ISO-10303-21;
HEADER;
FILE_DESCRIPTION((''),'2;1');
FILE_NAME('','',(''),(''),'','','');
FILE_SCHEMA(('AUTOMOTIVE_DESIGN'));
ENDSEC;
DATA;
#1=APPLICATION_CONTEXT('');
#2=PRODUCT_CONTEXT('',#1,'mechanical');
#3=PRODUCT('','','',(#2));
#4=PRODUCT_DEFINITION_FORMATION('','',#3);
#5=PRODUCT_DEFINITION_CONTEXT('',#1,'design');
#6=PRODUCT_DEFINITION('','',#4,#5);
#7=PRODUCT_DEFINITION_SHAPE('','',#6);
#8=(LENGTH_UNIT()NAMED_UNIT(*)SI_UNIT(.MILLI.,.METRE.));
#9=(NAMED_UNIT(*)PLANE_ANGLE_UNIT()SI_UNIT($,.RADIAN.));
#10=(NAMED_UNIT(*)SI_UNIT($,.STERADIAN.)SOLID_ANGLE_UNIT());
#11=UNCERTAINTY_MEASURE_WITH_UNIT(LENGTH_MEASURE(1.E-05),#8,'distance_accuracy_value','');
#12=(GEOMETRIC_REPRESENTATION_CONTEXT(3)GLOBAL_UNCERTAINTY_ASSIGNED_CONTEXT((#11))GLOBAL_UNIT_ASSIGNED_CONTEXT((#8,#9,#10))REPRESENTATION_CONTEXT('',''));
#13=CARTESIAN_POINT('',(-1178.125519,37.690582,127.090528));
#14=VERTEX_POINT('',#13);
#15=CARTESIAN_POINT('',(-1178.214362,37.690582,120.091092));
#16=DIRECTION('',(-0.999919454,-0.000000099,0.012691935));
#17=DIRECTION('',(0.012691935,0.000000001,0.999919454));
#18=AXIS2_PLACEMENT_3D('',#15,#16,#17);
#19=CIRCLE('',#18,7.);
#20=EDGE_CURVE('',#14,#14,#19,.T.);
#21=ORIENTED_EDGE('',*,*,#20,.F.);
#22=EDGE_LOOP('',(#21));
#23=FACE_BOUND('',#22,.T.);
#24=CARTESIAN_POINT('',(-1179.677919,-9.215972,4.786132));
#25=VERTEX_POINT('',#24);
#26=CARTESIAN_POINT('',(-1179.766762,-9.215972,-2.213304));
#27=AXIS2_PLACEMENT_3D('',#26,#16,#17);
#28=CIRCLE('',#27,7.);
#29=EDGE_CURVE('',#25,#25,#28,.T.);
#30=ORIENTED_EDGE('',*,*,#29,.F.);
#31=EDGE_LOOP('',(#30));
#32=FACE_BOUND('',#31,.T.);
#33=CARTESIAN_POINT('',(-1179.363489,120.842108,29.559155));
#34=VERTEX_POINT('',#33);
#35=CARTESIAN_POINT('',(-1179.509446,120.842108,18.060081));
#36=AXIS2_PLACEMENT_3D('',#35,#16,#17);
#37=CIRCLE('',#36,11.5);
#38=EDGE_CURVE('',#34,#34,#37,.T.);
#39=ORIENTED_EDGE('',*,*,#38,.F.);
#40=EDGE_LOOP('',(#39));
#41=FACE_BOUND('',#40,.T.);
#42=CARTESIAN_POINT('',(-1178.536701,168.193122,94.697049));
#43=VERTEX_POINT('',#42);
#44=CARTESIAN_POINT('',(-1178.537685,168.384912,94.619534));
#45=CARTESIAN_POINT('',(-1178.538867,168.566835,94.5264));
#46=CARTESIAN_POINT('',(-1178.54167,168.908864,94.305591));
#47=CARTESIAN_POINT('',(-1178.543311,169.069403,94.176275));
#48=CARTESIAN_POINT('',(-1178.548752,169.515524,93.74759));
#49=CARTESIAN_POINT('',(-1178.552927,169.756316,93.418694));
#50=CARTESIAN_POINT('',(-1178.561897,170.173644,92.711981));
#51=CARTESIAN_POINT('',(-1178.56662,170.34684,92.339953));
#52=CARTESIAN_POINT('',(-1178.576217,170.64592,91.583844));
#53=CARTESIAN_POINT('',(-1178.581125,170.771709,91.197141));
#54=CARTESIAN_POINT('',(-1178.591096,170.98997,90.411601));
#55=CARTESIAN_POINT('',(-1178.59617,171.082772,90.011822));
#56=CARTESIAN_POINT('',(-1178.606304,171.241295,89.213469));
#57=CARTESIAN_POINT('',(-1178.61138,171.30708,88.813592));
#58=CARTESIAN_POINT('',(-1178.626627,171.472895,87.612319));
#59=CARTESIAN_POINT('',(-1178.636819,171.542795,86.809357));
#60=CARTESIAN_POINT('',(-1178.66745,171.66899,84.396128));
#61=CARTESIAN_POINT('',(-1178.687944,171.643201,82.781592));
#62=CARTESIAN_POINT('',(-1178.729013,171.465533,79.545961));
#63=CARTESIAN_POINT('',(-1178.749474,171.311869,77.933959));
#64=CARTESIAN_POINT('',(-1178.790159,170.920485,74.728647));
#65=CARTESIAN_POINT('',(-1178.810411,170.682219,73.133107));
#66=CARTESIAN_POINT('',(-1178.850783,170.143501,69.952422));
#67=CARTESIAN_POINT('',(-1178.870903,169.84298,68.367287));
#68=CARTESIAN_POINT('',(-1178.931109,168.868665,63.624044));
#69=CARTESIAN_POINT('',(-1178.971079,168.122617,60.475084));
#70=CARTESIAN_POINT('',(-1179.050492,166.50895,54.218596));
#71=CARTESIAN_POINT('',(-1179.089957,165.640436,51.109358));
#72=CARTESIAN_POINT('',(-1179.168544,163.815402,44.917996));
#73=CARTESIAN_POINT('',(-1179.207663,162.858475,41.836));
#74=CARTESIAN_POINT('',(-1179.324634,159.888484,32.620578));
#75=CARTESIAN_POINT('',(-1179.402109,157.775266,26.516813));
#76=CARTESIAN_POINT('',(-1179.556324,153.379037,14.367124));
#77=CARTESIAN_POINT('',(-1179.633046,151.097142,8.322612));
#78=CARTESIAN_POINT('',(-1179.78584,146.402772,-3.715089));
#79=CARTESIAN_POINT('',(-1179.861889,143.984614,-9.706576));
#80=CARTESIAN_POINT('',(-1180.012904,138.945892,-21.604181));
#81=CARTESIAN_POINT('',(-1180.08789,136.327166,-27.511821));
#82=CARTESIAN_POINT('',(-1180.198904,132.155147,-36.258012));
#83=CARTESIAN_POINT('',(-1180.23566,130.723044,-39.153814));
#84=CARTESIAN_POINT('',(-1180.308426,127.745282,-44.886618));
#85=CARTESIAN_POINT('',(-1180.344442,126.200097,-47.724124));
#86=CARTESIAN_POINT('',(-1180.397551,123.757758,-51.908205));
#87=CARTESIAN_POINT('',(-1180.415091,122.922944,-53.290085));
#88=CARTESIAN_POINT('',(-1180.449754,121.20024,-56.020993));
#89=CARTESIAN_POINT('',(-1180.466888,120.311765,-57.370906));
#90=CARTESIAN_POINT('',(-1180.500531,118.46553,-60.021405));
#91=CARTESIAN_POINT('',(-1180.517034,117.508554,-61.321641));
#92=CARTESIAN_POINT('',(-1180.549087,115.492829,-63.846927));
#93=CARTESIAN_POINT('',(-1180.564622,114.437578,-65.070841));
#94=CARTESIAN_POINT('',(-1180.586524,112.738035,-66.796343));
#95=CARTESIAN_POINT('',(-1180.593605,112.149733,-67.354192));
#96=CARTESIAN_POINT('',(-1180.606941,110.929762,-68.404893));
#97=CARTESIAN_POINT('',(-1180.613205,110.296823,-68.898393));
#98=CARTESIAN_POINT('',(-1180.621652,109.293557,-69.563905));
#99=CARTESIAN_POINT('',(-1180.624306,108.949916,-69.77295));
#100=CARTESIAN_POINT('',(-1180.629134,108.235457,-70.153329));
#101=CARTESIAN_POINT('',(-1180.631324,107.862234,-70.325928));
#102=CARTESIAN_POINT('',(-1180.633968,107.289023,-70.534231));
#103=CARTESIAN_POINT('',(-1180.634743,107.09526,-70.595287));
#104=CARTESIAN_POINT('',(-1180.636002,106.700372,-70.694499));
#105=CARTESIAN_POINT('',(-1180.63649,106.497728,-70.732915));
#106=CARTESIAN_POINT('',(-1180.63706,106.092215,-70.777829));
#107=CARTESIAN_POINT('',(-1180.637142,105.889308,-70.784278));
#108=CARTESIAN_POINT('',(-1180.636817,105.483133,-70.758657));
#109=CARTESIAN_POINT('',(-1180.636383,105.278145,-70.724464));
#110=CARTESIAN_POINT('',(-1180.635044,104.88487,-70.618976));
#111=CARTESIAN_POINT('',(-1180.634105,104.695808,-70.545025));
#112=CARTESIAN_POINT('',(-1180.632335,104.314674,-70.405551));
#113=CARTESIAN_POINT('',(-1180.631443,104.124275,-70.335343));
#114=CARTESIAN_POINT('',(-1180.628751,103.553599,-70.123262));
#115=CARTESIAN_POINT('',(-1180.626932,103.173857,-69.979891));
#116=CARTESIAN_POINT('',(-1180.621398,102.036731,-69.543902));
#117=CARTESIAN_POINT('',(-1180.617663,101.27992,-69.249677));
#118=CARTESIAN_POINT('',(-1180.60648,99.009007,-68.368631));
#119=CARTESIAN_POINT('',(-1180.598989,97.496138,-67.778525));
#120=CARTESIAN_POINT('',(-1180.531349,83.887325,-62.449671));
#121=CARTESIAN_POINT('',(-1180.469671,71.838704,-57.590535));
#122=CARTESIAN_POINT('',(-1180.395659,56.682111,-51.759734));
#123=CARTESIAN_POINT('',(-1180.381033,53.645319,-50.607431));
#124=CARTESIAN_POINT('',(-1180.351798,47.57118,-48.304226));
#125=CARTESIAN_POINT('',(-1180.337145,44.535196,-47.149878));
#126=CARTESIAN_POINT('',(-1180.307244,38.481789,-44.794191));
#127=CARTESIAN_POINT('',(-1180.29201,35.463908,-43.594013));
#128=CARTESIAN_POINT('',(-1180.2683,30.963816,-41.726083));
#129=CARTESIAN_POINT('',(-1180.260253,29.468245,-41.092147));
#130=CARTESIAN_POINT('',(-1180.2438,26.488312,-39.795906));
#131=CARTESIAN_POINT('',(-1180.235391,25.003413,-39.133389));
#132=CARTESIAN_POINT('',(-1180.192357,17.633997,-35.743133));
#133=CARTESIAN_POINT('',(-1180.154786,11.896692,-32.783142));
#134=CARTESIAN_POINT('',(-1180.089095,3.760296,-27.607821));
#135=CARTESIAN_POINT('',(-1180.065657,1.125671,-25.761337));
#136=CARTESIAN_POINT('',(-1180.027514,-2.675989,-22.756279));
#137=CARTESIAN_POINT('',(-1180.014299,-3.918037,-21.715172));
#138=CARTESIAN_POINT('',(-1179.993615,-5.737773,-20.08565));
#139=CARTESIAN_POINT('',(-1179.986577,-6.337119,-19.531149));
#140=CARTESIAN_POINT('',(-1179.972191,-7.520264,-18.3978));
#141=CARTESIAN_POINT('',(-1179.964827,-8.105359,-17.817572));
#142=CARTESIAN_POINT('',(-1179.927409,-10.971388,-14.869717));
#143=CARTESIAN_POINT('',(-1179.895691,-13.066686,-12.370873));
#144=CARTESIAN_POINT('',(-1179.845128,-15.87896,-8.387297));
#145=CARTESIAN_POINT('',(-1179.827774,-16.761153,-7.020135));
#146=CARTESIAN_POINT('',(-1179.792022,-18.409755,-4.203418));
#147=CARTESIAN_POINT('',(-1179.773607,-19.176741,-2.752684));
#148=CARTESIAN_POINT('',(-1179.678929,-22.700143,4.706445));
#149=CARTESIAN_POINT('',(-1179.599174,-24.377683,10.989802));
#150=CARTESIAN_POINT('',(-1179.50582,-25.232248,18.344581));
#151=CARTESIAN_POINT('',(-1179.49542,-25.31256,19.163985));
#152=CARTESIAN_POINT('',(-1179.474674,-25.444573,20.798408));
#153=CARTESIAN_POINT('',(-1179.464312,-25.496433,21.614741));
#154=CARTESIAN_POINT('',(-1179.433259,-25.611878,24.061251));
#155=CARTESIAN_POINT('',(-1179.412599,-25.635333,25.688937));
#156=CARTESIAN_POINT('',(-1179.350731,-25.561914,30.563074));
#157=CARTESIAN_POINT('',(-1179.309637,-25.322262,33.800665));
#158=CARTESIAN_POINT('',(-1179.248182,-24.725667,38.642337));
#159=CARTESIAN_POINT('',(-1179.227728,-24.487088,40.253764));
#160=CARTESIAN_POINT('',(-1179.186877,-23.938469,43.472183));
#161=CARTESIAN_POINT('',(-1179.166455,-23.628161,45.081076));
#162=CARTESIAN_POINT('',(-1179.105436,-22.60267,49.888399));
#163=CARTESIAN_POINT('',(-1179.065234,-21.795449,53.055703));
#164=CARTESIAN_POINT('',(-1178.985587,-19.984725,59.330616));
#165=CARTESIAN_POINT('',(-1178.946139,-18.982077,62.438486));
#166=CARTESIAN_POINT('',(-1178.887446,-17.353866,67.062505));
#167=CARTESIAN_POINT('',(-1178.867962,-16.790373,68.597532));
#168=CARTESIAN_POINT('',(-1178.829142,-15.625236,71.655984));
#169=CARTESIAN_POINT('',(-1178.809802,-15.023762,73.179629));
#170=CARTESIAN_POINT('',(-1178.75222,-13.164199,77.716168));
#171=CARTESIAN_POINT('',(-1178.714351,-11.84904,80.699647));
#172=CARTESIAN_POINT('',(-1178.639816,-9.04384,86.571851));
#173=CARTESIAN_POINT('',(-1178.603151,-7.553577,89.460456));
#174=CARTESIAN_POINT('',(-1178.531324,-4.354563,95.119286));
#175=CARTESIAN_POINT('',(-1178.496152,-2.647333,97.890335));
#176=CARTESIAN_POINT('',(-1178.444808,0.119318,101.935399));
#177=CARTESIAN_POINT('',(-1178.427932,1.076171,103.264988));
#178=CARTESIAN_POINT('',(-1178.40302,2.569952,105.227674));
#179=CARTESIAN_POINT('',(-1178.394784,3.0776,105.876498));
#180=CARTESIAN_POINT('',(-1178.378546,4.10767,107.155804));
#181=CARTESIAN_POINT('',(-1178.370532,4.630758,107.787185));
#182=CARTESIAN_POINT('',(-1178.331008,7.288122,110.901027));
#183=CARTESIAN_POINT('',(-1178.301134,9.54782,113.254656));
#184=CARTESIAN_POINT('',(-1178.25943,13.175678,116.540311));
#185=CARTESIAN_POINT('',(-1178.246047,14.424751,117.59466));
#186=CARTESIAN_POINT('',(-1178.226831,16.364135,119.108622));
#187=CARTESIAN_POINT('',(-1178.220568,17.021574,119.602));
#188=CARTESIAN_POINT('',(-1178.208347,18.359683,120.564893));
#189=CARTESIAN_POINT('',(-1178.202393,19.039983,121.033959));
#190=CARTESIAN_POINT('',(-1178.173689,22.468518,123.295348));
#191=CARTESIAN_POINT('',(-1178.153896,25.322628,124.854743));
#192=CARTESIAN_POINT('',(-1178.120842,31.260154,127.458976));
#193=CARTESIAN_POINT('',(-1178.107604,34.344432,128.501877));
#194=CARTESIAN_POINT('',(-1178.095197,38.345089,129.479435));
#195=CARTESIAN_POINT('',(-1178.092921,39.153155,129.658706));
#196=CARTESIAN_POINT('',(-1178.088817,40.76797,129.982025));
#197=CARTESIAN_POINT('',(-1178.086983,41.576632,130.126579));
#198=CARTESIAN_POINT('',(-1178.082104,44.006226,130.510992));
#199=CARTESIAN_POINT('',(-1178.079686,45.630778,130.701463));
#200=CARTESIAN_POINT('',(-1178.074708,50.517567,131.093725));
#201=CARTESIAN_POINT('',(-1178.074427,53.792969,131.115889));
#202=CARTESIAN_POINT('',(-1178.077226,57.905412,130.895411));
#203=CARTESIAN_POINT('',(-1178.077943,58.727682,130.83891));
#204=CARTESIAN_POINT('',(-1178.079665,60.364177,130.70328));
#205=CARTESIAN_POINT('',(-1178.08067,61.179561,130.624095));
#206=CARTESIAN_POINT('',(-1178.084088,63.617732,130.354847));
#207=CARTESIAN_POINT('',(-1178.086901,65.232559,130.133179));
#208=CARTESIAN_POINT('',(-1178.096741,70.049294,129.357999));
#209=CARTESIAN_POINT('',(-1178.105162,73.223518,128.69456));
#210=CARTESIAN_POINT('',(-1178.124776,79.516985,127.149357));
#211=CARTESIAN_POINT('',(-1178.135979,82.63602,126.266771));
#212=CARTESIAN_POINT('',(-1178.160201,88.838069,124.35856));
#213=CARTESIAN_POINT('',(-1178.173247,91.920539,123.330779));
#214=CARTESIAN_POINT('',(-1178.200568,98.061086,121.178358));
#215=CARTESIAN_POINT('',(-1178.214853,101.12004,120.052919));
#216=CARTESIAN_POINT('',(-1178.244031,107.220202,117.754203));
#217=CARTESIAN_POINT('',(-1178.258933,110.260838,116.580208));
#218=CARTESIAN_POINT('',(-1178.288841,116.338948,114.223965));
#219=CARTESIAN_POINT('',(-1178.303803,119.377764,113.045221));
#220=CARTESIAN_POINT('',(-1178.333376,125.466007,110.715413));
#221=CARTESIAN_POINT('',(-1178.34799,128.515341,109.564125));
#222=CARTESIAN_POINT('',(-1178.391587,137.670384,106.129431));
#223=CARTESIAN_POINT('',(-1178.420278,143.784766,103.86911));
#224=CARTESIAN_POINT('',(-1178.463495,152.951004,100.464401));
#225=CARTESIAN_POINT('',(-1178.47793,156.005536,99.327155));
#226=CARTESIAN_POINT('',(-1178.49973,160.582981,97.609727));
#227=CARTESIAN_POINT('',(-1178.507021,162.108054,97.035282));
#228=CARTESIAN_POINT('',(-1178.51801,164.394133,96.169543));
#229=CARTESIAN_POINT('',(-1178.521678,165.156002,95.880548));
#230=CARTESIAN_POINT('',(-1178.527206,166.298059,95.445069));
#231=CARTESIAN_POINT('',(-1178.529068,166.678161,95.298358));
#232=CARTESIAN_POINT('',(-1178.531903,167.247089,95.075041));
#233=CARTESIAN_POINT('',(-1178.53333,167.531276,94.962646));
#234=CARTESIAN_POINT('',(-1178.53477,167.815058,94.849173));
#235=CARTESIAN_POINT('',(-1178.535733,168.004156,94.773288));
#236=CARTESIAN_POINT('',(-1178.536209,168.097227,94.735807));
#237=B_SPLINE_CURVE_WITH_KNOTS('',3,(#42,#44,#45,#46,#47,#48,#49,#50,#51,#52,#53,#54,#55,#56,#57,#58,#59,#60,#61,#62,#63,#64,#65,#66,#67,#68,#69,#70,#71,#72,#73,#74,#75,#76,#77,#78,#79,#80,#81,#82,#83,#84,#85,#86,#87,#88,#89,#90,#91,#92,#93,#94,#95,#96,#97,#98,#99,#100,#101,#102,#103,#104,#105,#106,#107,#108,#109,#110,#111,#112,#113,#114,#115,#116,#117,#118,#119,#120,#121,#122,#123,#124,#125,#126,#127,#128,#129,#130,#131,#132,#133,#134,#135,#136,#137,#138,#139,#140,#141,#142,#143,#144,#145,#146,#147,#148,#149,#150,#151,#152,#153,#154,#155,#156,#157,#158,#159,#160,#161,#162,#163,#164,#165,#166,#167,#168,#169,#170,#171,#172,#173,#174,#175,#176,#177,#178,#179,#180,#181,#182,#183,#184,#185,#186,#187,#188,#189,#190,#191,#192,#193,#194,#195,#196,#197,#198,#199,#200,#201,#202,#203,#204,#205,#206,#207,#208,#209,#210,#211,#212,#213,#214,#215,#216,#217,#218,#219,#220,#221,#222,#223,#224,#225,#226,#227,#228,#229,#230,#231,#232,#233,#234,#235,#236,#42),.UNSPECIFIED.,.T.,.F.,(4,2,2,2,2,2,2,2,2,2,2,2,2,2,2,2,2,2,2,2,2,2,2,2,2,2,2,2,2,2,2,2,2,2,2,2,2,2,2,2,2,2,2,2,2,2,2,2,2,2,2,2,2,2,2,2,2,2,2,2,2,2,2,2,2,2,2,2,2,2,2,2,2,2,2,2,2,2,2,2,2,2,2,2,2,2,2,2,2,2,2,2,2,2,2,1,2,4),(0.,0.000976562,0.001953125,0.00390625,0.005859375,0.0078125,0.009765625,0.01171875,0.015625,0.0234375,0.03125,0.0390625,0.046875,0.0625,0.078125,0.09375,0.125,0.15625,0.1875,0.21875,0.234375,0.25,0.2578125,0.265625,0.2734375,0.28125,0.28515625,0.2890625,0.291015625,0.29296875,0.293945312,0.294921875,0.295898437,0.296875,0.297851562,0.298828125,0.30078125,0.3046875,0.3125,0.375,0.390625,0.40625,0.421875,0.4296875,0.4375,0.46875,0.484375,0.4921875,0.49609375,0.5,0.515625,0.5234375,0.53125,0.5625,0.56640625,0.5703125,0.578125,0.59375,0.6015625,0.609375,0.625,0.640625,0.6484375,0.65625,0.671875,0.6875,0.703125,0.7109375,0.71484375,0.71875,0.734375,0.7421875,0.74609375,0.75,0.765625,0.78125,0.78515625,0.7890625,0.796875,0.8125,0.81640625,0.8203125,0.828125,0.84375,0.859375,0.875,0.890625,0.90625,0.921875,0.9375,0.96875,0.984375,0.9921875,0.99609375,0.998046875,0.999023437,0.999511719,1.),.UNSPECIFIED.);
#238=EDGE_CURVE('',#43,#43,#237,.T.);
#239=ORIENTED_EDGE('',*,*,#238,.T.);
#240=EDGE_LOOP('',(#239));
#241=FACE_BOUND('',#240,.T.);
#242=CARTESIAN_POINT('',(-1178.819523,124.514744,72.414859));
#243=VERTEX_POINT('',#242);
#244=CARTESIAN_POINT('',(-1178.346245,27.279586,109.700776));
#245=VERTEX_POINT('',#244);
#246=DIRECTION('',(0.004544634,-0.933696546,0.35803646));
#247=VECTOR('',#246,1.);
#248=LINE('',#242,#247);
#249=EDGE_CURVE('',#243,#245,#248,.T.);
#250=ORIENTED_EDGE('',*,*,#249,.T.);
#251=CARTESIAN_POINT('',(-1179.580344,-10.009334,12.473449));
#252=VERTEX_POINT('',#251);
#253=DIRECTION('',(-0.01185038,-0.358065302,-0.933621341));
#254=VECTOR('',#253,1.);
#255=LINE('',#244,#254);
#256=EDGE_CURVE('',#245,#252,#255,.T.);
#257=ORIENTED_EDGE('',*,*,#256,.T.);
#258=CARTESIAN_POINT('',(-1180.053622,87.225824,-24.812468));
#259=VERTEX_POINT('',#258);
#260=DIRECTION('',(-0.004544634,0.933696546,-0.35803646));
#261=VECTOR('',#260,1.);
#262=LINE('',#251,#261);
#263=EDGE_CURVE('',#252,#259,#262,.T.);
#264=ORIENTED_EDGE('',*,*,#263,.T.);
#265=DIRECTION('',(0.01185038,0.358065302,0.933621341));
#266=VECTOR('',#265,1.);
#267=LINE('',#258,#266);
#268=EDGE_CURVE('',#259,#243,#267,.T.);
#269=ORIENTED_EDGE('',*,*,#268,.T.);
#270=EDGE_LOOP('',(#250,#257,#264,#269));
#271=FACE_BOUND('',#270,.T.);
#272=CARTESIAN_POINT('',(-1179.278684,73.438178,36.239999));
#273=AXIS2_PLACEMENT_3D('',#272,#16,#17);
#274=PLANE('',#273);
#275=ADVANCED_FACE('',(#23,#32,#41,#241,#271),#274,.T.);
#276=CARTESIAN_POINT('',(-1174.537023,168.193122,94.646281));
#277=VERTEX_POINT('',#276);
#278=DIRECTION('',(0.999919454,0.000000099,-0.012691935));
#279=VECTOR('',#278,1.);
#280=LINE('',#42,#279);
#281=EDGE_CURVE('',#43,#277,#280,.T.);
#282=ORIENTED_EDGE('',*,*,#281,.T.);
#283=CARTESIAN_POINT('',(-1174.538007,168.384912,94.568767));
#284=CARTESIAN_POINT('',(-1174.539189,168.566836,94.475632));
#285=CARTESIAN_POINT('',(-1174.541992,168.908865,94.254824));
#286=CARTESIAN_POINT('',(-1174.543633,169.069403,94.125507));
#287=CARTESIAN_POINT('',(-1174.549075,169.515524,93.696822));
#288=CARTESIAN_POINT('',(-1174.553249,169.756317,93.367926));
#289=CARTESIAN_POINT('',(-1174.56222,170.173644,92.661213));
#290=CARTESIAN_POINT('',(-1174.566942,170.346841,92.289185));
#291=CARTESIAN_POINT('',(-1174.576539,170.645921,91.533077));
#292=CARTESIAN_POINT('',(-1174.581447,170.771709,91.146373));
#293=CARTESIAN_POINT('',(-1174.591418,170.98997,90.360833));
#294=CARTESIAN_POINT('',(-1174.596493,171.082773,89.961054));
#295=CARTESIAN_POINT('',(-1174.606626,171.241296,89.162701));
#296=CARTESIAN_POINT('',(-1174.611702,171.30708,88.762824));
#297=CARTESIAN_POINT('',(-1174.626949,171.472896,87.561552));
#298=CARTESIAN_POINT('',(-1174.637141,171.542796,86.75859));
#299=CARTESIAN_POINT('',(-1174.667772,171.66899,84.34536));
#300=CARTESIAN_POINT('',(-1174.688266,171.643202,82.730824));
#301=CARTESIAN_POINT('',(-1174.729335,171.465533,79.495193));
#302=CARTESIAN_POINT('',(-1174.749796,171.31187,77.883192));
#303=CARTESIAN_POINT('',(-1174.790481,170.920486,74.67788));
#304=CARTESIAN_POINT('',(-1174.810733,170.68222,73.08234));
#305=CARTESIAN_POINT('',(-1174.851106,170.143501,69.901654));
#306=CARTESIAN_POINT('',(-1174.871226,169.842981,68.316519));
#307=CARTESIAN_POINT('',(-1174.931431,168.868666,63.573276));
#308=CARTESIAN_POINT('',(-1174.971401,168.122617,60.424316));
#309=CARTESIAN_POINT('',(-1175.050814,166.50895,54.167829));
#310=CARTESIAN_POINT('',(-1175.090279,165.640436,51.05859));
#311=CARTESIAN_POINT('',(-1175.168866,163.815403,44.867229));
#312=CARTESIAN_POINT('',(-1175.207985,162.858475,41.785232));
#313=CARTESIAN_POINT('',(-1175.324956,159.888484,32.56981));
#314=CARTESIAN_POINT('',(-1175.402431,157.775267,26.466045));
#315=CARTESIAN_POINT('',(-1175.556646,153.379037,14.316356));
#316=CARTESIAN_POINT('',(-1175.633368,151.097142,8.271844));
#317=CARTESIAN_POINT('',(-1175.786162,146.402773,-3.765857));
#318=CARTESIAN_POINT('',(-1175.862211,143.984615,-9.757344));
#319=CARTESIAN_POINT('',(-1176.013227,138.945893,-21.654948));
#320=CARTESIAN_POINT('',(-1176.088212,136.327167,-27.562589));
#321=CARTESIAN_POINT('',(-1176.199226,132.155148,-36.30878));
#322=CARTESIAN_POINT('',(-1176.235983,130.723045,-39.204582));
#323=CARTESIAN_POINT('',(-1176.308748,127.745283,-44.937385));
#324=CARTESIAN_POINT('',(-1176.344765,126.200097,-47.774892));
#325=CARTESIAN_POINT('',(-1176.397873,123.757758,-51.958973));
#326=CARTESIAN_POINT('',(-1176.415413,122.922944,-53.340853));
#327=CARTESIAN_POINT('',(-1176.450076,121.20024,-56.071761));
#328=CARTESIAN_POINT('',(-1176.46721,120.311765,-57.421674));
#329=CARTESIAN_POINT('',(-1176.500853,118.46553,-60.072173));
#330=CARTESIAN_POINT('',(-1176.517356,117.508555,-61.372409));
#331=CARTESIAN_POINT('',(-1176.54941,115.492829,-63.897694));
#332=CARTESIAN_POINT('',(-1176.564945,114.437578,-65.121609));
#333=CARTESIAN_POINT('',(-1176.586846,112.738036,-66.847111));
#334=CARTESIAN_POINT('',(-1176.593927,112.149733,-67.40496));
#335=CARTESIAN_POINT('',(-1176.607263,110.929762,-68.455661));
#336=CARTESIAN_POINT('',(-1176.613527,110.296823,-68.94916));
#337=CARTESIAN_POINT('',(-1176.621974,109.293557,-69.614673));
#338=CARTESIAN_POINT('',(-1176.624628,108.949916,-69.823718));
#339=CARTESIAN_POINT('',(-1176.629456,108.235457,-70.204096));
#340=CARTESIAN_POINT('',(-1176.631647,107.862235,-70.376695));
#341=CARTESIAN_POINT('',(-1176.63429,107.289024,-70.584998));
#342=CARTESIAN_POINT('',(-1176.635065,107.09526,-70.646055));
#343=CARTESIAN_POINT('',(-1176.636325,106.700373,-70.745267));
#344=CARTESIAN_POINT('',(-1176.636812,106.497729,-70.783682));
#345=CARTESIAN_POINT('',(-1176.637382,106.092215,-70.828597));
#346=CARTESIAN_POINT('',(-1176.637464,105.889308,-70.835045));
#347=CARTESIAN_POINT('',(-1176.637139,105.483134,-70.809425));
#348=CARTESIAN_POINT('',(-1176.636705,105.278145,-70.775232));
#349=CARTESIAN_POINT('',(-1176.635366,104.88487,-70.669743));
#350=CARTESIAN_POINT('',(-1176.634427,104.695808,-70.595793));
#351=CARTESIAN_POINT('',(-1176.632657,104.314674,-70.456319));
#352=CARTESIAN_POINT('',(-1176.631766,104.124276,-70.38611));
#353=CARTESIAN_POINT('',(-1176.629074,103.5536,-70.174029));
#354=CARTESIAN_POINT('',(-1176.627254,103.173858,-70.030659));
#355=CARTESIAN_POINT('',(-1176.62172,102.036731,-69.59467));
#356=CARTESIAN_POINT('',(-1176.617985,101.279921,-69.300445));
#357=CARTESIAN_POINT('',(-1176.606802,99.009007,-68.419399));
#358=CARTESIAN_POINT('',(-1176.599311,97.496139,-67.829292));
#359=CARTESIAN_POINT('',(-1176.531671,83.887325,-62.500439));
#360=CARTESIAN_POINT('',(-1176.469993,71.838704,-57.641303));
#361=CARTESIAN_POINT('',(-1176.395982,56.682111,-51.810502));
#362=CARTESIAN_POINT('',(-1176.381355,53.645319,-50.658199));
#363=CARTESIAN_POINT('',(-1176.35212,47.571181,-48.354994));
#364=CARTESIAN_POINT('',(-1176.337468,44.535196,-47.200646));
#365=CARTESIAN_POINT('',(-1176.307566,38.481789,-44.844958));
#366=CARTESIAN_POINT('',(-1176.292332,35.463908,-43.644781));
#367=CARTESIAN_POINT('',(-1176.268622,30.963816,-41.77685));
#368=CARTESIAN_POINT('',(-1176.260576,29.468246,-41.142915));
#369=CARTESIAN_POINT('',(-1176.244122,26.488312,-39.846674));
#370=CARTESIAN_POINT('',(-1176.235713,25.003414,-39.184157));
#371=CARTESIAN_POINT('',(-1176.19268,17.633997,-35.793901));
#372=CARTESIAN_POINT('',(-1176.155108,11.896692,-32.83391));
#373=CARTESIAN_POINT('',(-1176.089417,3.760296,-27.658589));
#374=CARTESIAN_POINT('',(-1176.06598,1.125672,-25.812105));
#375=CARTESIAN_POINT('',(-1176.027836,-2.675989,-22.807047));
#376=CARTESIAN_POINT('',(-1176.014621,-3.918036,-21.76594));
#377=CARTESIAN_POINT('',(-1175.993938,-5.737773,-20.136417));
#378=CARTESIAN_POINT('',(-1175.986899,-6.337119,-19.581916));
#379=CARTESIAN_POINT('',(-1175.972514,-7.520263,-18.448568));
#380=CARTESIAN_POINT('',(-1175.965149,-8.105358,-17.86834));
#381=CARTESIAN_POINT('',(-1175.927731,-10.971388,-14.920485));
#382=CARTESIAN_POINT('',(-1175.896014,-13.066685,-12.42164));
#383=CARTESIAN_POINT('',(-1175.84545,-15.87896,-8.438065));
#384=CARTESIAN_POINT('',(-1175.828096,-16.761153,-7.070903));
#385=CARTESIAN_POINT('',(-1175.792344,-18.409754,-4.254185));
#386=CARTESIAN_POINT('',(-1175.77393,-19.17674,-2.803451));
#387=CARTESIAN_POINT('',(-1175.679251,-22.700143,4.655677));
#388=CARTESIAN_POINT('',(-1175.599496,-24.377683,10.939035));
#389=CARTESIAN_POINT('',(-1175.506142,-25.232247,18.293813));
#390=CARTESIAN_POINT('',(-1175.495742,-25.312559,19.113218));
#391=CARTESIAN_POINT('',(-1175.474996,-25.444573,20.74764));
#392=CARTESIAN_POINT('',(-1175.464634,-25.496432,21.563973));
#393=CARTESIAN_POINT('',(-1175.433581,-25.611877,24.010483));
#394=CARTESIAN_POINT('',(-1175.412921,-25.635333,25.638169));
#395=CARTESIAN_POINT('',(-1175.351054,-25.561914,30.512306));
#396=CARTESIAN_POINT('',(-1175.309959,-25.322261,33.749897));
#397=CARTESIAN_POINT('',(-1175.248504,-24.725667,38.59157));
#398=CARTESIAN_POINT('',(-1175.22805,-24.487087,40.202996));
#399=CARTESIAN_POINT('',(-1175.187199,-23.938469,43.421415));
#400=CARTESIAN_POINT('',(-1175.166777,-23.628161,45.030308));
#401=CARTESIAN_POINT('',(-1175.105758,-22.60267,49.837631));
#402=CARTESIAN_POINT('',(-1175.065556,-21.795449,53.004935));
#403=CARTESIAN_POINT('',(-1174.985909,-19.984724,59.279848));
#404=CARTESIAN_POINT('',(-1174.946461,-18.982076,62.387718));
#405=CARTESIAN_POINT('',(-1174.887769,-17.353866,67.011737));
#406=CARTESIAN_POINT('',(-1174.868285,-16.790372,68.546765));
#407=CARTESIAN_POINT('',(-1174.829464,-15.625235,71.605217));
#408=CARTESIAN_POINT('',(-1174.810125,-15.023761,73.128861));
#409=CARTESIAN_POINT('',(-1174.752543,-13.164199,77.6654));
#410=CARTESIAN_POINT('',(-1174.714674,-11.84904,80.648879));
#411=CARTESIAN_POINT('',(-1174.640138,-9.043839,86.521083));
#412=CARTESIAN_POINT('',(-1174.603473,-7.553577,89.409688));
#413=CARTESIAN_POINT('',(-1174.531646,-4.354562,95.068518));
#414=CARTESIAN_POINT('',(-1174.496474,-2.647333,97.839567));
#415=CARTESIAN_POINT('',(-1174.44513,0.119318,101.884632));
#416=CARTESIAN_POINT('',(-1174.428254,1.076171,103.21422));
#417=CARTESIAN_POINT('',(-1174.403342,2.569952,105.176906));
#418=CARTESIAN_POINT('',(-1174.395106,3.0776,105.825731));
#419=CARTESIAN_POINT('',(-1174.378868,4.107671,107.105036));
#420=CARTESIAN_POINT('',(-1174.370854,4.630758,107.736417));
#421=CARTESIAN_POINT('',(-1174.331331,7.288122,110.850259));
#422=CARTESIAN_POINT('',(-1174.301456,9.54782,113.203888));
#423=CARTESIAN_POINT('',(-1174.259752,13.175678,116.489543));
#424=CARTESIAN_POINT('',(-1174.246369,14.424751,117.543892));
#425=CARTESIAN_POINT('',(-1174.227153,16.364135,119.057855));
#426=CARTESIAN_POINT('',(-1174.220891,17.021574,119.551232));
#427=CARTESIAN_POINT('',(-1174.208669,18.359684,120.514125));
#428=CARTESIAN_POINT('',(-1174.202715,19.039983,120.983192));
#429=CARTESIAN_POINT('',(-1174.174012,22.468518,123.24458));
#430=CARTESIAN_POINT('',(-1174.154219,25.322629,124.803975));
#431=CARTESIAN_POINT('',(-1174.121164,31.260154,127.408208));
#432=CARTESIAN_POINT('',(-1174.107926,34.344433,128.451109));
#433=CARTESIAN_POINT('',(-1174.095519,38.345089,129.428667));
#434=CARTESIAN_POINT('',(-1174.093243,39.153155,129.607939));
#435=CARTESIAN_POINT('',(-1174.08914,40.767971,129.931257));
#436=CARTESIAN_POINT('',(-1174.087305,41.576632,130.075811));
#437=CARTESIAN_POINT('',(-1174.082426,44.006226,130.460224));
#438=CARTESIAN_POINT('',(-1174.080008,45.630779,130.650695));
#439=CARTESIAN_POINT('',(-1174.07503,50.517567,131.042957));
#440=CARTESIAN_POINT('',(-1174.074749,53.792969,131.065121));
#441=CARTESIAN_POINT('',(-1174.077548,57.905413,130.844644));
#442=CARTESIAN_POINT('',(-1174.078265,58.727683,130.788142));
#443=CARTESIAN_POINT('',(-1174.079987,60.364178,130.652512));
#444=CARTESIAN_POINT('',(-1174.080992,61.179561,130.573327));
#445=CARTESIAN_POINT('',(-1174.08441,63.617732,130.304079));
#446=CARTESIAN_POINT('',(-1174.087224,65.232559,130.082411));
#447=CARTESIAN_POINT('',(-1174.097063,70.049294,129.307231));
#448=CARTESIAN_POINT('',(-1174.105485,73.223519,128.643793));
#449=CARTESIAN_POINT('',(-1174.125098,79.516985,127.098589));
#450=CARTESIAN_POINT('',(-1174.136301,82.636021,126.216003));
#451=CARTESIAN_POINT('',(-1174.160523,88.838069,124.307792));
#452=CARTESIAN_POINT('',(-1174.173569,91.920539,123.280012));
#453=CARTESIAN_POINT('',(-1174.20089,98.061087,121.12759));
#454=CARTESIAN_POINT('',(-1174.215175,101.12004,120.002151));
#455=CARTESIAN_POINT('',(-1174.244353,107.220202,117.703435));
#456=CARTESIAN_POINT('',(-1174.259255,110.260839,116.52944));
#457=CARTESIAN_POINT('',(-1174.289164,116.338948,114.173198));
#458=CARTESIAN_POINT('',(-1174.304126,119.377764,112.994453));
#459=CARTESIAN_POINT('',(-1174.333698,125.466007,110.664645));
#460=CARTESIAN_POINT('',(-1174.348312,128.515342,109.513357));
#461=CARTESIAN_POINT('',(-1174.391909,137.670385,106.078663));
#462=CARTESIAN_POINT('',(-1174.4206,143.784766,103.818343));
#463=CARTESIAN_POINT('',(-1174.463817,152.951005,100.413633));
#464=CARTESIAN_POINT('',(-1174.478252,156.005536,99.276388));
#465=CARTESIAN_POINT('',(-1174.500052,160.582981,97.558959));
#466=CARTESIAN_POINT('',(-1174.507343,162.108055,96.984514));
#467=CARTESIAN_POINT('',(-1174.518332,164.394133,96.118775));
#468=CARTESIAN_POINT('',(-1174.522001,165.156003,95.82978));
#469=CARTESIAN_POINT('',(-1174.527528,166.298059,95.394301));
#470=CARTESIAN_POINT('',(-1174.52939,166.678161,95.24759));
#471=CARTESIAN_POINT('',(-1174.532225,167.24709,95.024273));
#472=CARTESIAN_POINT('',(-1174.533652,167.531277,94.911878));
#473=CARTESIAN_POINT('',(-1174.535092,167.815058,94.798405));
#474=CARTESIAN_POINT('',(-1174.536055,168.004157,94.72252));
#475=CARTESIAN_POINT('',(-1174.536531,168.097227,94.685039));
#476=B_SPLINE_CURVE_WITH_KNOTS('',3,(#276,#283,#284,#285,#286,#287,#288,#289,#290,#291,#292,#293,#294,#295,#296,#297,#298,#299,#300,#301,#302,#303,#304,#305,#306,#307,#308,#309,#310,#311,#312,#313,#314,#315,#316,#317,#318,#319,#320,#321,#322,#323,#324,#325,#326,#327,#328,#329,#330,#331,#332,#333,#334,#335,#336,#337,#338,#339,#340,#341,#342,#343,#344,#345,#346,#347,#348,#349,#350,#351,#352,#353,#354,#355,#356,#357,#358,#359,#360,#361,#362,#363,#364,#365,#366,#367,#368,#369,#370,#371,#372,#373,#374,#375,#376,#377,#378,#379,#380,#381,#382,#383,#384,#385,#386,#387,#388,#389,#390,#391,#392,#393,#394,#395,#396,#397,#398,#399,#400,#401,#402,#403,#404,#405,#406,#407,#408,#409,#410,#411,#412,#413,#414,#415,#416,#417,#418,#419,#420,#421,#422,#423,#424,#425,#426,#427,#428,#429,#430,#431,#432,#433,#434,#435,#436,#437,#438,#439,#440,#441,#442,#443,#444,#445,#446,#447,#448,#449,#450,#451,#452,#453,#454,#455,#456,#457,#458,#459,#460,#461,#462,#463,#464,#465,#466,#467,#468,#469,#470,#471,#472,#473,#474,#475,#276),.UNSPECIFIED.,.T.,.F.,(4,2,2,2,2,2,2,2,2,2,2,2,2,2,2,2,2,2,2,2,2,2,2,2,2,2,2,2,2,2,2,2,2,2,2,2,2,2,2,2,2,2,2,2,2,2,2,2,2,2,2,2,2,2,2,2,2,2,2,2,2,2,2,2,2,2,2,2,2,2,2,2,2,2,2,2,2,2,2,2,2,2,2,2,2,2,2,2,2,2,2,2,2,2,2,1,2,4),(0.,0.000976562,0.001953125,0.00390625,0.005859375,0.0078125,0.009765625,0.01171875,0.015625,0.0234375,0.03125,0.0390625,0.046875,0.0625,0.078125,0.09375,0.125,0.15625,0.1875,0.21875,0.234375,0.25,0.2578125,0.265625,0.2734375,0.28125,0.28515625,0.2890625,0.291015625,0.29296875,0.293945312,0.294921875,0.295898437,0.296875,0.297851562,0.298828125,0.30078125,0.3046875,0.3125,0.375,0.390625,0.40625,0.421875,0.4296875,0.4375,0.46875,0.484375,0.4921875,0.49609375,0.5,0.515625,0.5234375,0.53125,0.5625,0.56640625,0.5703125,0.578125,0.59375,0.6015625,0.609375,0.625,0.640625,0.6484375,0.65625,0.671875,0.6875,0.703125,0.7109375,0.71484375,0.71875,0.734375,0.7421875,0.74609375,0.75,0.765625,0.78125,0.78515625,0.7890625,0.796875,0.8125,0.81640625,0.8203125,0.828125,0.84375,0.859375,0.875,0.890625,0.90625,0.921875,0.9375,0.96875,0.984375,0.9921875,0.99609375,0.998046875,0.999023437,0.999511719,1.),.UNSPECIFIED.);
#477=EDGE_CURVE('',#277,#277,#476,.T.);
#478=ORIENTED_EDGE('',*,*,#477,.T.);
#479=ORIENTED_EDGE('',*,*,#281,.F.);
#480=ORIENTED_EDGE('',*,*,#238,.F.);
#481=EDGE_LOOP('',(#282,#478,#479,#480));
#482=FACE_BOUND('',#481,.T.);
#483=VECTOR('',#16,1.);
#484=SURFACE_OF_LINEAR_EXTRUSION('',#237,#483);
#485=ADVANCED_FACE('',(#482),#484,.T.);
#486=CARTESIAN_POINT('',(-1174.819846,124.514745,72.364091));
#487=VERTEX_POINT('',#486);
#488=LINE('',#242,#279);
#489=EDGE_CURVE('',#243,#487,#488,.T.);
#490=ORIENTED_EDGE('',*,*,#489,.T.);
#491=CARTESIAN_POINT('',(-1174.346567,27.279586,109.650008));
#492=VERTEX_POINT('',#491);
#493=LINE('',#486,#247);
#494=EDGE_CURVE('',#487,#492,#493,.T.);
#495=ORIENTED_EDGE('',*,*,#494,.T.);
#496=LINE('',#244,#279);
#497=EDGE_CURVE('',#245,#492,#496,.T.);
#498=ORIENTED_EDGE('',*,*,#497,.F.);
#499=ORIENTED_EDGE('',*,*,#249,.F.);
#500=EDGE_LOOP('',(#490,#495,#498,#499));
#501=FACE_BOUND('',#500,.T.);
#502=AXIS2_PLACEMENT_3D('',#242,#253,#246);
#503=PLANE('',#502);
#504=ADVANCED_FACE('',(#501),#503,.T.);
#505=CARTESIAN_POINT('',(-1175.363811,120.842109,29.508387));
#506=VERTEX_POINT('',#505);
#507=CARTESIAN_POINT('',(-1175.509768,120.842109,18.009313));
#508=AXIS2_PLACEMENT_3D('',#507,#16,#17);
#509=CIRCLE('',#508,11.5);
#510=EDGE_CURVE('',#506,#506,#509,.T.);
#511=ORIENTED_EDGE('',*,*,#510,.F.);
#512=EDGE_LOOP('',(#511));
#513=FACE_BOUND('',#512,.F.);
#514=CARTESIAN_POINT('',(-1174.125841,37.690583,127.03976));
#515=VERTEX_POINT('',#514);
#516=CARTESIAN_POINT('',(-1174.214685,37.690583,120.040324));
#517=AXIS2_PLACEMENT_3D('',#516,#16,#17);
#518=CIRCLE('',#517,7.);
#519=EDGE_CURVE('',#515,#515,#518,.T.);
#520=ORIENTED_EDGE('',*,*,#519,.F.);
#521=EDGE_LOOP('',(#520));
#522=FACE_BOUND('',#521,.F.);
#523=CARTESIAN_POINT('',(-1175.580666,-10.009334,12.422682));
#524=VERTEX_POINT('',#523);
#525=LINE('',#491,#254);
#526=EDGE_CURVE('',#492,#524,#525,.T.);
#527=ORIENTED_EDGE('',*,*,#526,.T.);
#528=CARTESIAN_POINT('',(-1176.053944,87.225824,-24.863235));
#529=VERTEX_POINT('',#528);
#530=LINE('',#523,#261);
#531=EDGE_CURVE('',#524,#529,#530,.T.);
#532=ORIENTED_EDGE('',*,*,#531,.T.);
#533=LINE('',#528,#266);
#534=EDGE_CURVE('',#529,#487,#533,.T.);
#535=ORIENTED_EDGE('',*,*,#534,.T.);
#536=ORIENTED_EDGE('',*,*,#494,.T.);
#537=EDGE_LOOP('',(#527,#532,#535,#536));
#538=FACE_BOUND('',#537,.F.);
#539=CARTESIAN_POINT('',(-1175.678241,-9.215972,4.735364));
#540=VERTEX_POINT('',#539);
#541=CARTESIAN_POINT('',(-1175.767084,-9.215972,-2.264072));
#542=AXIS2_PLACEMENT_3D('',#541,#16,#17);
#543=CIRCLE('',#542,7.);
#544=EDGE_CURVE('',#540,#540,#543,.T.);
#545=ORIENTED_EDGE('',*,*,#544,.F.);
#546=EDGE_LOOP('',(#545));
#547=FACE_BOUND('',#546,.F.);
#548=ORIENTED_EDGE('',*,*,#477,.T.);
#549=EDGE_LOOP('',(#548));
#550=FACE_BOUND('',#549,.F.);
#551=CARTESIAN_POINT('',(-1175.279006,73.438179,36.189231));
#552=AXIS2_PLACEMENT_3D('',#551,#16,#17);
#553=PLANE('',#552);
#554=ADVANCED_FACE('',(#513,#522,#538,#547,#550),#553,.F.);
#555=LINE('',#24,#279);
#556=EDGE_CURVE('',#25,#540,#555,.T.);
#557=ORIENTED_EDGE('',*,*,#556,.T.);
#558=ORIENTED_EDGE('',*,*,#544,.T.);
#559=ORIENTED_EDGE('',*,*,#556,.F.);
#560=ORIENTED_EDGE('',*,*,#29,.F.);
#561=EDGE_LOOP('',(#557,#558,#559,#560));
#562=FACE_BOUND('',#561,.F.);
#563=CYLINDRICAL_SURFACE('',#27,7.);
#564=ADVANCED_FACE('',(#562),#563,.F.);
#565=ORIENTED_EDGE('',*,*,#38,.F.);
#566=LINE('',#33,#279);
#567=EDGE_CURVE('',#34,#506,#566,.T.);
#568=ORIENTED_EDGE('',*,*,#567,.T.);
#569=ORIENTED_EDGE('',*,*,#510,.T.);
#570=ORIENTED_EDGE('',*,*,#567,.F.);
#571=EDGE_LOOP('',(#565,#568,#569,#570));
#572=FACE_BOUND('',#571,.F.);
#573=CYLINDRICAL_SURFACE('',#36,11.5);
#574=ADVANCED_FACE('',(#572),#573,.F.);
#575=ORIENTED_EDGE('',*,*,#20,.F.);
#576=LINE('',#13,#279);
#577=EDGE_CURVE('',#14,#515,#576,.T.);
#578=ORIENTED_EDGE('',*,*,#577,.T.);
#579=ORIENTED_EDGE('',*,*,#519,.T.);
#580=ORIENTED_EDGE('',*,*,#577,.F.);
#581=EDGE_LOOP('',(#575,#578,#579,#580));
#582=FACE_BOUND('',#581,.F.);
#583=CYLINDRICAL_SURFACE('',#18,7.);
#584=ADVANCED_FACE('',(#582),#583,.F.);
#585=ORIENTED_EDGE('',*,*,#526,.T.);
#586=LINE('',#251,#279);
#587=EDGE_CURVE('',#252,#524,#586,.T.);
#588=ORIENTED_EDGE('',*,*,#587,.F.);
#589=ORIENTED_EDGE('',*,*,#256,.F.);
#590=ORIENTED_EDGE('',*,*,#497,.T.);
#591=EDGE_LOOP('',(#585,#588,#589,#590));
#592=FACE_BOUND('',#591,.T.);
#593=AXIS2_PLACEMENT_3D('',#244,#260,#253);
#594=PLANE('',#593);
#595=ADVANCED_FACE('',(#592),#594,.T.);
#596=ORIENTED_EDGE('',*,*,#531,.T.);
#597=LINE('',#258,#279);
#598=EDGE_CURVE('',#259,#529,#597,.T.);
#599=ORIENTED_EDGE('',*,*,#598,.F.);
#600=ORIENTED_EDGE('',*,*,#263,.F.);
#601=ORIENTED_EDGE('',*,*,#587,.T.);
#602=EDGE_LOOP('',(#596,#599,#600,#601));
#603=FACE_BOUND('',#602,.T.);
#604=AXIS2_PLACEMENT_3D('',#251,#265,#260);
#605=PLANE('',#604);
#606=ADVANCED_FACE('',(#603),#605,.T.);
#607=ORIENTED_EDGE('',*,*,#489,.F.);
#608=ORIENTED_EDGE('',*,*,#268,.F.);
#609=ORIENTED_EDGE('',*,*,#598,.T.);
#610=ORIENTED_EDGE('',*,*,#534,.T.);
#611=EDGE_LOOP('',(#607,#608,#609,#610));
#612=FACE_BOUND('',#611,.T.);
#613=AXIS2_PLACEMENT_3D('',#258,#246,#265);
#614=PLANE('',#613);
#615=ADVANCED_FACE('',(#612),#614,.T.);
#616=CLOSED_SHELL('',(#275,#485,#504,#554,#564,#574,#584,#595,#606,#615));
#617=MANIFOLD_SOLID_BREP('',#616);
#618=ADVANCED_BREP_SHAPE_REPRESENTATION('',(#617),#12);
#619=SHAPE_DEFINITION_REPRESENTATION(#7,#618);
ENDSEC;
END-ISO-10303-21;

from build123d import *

# Parameters (mm, degrees)
SKETCH3_R           = 7
SKETCH3_R_2         = 11.5
BOSS_EXTRUDE1_DEPTH = 4


with BuildPart() as part:
    # Sketch3 → Boss-Extrude1 (new body)
    with BuildSketch(Plane(origin=(-1179.548631244, -0.000116963, 14.971959902), x_dir=(0.012691934504714668, 1.258519915397729e-09, 0.9999194541554475), z_dir=(-0.9999194541554426, -9.915104323779702e-08, 0.01269193450471473))):
        with BuildLine():
            add(Edge.make_bspline(
                [(79.731511359, 168.193238714), (79.653990348, 168.385028808), (79.560848033, 168.566952086), (79.340021847, 168.908981308), (79.210695298, 169.069519766), (78.781975606, 169.515640666), (78.453052752, 169.756433316), (77.746282808, 170.173760419), (77.374225273, 170.346957045), (76.618055792, 170.646037327), (76.231320865, 170.771825699), (75.445717635, 170.990086498), (75.045906717, 171.082888983), (74.247489576, 171.241412128), (73.847580027, 171.307196952), (72.646210891, 171.473011999), (71.843184122, 171.54291214), (69.429760333, 171.669106413), (67.815093888, 171.643318171), (64.579202467, 171.465649773), (62.967071145, 171.311986093), (59.761501008, 170.920602138), (58.165832493, 170.682336315), (54.984890477, 170.14361787), (53.399628362, 169.84309713), (48.656003205, 168.868782209), (45.506789421, 168.122733638), (39.249797793, 166.509066645), (36.140308585, 165.640552589), (29.948448592, 163.815519323), (26.866203634, 162.858591769), (17.650039352, 159.888600915), (11.545782566, 157.775383208), (-0.604884948, 153.379153881), (-6.649883911, 151.097259058), (-18.688554416, 146.4028894), (-24.680523881, 143.984731356), (-36.579086772, 138.946009306), (-42.48720288, 136.327283315), (-51.234098847, 132.155264206), (-54.130133676, 130.723161483), (-59.86339931, 127.745399278), (-62.701134229, 126.200213632), (-66.885552188, 123.757874778), (-68.267543958, 122.923061097), (-70.998671849, 121.200357071), (-72.348693773, 120.311881916), (-74.999405689, 118.465646948), (-76.299746495, 117.508671166), (-78.825235563, 115.49294562), (-80.049248813, 114.437694661), (-81.774889513, 112.738152296), (-82.332783613, 112.149849809), (-83.383569446, 110.929878833), (-83.877108359, 110.296939867), (-84.542674879, 109.293673656), (-84.751736662, 108.950032635), (-85.132145551, 108.235574011), (-85.304758407, 107.86235151), (-85.513078249, 107.289140179), (-85.574139308, 107.095376795), (-85.673359437, 106.700489416), (-85.711778268, 106.49784535), (-85.756696407, 106.092331571), (-85.763145275, 105.889424757), (-85.737523171, 105.483250415), (-85.703327234, 105.278262113), (-85.597830008, 104.884986791), (-85.523873758, 104.695924947), (-85.384388297, 104.314790942), (-85.314174304, 104.124392284), (-85.102076101, 103.553716505), (-84.958694223, 103.173974382), (-84.522670217, 102.036847892), (-84.22842153, 101.280037448), (-83.347304068, 99.009124064), (-82.757150372, 97.496255184), (-77.427867257, 83.887442151), (-72.568340001, 71.83882096), (-66.737069627, 56.682228052), (-65.584673582, 53.645435671), (-63.281283196, 47.571297248), (-62.126842023, 44.535312674), (-59.770964874, 38.48190606), (-58.570690945, 35.464025021), (-56.702609808, 30.963932613), (-56.068622936, 29.468362509), (-54.772277638, 26.488428815), (-54.10970721, 25.003530257), (-50.719177972, 17.634113766), (-47.758949004, 11.896808657), (-42.583210947, 3.760412983), (-40.736578387, 1.125788466), (-37.731278204, -2.675872465), (-36.690087096, -3.917919636), (-35.060433561, -5.737656238), (-34.50588785, -6.33700207), (-33.372447937, -7.520146808), (-32.792173192, -8.105241737), (-29.844081031, -10.971271048), (-27.345035113, -13.06656876), (-23.361138317, -15.878843088), (-21.993866388, -16.761036372), (-19.176922194, -18.409637683), (-17.726071397, -19.176623658), (-10.26634208, -22.700026264), (-3.982478372, -24.37756643), (3.372892879, -25.232130757), (4.192363049, -25.312442646), (5.826917129, -25.444456171), (6.643316249, -25.496315804), (9.090023055, -25.611760944), (10.717840409, -25.635216297), (15.592369686, -25.561797163), (18.83022132, -25.32214461), (23.672284231, -24.725550023), (25.283840676, -24.486970861), (28.502518986, -23.938352026), (30.111541063, -23.628043978), (34.919251683, -22.602553567), (38.086810794, -21.795332317), (44.362229463, -19.984607761), (47.470349167, -18.981959772), (52.094741262, -17.353749001), (53.629892226, -16.790255775), (56.688590576, -15.625118719), (58.212357435, -15.023644731), (62.749261915, -13.164082275), (65.732981199, -11.848923153), (71.605658244, -9.043722648), (74.494496152, -7.553460079), (80.153781675, -4.354445814), (82.925054017, -2.647216151), (86.970444464, 0.119434779), (88.300140209, 1.076287589), (90.262984087, 2.57006863), (90.911861108, 3.077716695), (92.191269416, 4.107787296), (92.822701791, 4.630874824), (95.936794113, 7.288238846), (98.290612927, 9.547936726), (101.576532204, 13.175794685), (102.63096678, 14.424867686), (104.14505095, 16.364251476), (104.638468156, 17.021690925), (105.601438789, 18.359800201), (106.070542909, 19.040099847), (108.332113692, 22.468634598), (109.891633942, 25.322744993), (112.496076731, 31.260270654), (113.539062393, 34.344548994), (114.516698545, 38.345205347), (114.695984749, 39.1532717), (115.019329007, 40.768087078), (115.163895258, 41.576748459), (115.548339076, 44.006342499), (115.738825401, 45.630895046), (116.131118547, 50.517683769), (116.153284335, 53.793085851), (115.932789324, 57.905529217), (115.87628302, 58.727799232), (115.740642557, 60.364293977), (115.661450805, 61.179677822), (115.392181665, 63.617848337), (115.170495378, 65.232675388), (114.395253364, 70.049410688), (113.731761037, 73.22363517), (112.186432981, 79.517101824), (111.303776376, 82.636137287), (109.395411477, 88.838185545), (108.367548146, 91.920655667), (106.214953417, 98.061203005), (105.08942372, 101.1201568), (102.790522474, 107.220318582), (101.616432384, 110.260954998), (99.260000539, 116.339064912), (98.081160798, 119.377880755), (95.751165053, 125.466123805), (94.599784894, 128.515458207), (91.164814026, 137.670501337), (88.904311415, 143.784882413), (85.499327305, 152.951121118), (84.361990555, 156.005652447), (82.644423664, 160.583097465), (82.069932146, 162.108171235), (81.204123694, 164.394249454), (80.91510568, 165.156119243), (80.479591411, 166.298175904), (80.33286847, 166.678277449), (80.10953366, 167.247206281), (79.997129382, 167.53139333), (79.883647323, 167.81517469), (79.80775605, 168.004273217), (79.770271865, 168.097343667), (79.731511359, 168.193238714)],
                knots=[0, 0, 0, 0, 0.000976562, 0.000976562, 0.001953125, 0.001953125, 0.00390625, 0.00390625, 0.005859375, 0.005859375, 0.0078125, 0.0078125, 0.009765625, 0.009765625, 0.01171875, 0.01171875, 0.015625, 0.015625, 0.0234375, 0.0234375, 0.03125, 0.03125, 0.0390625, 0.0390625, 0.046875, 0.046875, 0.0625, 0.0625, 0.078125, 0.078125, 0.09375, 0.09375, 0.125, 0.125, 0.15625, 0.15625, 0.1875, 0.1875, 0.21875, 0.21875, 0.234375, 0.234375, 0.25, 0.25, 0.2578125, 0.2578125, 0.265625, 0.265625, 0.2734375, 0.2734375, 0.28125, 0.28125, 0.28515625, 0.28515625, 0.2890625, 0.2890625, 0.291015625, 0.291015625, 0.29296875, 0.29296875, 0.293945312, 0.293945312, 0.294921875, 0.294921875, 0.295898437, 0.295898437, 0.296875, 0.296875, 0.297851562, 0.297851562, 0.298828125, 0.298828125, 0.30078125, 0.30078125, 0.3046875, 0.3046875, 0.3125, 0.3125, 0.375, 0.375, 0.390625, 0.390625, 0.40625, 0.40625, 0.421875, 0.421875, 0.4296875, 0.4296875, 0.4375, 0.4375, 0.46875, 0.46875, 0.484375, 0.484375, 0.4921875, 0.4921875, 0.49609375, 0.49609375, 0.5, 0.5, 0.515625, 0.515625, 0.5234375, 0.5234375, 0.53125, 0.53125, 0.5625, 0.5625, 0.56640625, 0.56640625, 0.5703125, 0.5703125, 0.578125, 0.578125, 0.59375, 0.59375, 0.6015625, 0.6015625, 0.609375, 0.609375, 0.625, 0.625, 0.640625, 0.640625, 0.6484375, 0.6484375, 0.65625, 0.65625, 0.671875, 0.671875, 0.6875, 0.6875, 0.703125, 0.703125, 0.7109375, 0.7109375, 0.71484375, 0.71484375, 0.71875, 0.71875, 0.734375, 0.734375, 0.7421875, 0.7421875, 0.74609375, 0.74609375, 0.75, 0.75, 0.765625, 0.765625, 0.78125, 0.78125, 0.78515625, 0.78515625, 0.7890625, 0.7890625, 0.796875, 0.796875, 0.8125, 0.8125, 0.81640625, 0.81640625, 0.8203125, 0.8203125, 0.828125, 0.828125, 0.84375, 0.84375, 0.859375, 0.859375, 0.875, 0.875, 0.890625, 0.890625, 0.90625, 0.90625, 0.921875, 0.921875, 0.9375, 0.9375, 0.96875, 0.96875, 0.984375, 0.984375, 0.9921875, 0.9921875, 0.99609375, 0.99609375, 0.998046875, 0.998046875, 0.999023437, 0.999511719, 0.999511719, 1, 1, 1, 1], degree=3))
        make_face()
        with Locations((-17.186648299, -9.215855238)):
            Circle(SKETCH3_R, mode=Mode.SUBTRACT)
        Polygon((94.736446449, 27.279702875), (-2.498711879, -10.009217528), (-39.787632282, 87.2259408), (57.447526046, 124.514861203), align=None, mode=Mode.SUBTRACT)
        with Locations((105.127599262, 37.690699139)):
            Circle(SKETCH3_R, mode=Mode.SUBTRACT)
        with Locations((3.088369787, 120.842225121)):
            Circle(SKETCH3_R_2, mode=Mode.SUBTRACT)
    extrude(amount=-BOSS_EXTRUDE1_DEPTH)


solid = part.part
